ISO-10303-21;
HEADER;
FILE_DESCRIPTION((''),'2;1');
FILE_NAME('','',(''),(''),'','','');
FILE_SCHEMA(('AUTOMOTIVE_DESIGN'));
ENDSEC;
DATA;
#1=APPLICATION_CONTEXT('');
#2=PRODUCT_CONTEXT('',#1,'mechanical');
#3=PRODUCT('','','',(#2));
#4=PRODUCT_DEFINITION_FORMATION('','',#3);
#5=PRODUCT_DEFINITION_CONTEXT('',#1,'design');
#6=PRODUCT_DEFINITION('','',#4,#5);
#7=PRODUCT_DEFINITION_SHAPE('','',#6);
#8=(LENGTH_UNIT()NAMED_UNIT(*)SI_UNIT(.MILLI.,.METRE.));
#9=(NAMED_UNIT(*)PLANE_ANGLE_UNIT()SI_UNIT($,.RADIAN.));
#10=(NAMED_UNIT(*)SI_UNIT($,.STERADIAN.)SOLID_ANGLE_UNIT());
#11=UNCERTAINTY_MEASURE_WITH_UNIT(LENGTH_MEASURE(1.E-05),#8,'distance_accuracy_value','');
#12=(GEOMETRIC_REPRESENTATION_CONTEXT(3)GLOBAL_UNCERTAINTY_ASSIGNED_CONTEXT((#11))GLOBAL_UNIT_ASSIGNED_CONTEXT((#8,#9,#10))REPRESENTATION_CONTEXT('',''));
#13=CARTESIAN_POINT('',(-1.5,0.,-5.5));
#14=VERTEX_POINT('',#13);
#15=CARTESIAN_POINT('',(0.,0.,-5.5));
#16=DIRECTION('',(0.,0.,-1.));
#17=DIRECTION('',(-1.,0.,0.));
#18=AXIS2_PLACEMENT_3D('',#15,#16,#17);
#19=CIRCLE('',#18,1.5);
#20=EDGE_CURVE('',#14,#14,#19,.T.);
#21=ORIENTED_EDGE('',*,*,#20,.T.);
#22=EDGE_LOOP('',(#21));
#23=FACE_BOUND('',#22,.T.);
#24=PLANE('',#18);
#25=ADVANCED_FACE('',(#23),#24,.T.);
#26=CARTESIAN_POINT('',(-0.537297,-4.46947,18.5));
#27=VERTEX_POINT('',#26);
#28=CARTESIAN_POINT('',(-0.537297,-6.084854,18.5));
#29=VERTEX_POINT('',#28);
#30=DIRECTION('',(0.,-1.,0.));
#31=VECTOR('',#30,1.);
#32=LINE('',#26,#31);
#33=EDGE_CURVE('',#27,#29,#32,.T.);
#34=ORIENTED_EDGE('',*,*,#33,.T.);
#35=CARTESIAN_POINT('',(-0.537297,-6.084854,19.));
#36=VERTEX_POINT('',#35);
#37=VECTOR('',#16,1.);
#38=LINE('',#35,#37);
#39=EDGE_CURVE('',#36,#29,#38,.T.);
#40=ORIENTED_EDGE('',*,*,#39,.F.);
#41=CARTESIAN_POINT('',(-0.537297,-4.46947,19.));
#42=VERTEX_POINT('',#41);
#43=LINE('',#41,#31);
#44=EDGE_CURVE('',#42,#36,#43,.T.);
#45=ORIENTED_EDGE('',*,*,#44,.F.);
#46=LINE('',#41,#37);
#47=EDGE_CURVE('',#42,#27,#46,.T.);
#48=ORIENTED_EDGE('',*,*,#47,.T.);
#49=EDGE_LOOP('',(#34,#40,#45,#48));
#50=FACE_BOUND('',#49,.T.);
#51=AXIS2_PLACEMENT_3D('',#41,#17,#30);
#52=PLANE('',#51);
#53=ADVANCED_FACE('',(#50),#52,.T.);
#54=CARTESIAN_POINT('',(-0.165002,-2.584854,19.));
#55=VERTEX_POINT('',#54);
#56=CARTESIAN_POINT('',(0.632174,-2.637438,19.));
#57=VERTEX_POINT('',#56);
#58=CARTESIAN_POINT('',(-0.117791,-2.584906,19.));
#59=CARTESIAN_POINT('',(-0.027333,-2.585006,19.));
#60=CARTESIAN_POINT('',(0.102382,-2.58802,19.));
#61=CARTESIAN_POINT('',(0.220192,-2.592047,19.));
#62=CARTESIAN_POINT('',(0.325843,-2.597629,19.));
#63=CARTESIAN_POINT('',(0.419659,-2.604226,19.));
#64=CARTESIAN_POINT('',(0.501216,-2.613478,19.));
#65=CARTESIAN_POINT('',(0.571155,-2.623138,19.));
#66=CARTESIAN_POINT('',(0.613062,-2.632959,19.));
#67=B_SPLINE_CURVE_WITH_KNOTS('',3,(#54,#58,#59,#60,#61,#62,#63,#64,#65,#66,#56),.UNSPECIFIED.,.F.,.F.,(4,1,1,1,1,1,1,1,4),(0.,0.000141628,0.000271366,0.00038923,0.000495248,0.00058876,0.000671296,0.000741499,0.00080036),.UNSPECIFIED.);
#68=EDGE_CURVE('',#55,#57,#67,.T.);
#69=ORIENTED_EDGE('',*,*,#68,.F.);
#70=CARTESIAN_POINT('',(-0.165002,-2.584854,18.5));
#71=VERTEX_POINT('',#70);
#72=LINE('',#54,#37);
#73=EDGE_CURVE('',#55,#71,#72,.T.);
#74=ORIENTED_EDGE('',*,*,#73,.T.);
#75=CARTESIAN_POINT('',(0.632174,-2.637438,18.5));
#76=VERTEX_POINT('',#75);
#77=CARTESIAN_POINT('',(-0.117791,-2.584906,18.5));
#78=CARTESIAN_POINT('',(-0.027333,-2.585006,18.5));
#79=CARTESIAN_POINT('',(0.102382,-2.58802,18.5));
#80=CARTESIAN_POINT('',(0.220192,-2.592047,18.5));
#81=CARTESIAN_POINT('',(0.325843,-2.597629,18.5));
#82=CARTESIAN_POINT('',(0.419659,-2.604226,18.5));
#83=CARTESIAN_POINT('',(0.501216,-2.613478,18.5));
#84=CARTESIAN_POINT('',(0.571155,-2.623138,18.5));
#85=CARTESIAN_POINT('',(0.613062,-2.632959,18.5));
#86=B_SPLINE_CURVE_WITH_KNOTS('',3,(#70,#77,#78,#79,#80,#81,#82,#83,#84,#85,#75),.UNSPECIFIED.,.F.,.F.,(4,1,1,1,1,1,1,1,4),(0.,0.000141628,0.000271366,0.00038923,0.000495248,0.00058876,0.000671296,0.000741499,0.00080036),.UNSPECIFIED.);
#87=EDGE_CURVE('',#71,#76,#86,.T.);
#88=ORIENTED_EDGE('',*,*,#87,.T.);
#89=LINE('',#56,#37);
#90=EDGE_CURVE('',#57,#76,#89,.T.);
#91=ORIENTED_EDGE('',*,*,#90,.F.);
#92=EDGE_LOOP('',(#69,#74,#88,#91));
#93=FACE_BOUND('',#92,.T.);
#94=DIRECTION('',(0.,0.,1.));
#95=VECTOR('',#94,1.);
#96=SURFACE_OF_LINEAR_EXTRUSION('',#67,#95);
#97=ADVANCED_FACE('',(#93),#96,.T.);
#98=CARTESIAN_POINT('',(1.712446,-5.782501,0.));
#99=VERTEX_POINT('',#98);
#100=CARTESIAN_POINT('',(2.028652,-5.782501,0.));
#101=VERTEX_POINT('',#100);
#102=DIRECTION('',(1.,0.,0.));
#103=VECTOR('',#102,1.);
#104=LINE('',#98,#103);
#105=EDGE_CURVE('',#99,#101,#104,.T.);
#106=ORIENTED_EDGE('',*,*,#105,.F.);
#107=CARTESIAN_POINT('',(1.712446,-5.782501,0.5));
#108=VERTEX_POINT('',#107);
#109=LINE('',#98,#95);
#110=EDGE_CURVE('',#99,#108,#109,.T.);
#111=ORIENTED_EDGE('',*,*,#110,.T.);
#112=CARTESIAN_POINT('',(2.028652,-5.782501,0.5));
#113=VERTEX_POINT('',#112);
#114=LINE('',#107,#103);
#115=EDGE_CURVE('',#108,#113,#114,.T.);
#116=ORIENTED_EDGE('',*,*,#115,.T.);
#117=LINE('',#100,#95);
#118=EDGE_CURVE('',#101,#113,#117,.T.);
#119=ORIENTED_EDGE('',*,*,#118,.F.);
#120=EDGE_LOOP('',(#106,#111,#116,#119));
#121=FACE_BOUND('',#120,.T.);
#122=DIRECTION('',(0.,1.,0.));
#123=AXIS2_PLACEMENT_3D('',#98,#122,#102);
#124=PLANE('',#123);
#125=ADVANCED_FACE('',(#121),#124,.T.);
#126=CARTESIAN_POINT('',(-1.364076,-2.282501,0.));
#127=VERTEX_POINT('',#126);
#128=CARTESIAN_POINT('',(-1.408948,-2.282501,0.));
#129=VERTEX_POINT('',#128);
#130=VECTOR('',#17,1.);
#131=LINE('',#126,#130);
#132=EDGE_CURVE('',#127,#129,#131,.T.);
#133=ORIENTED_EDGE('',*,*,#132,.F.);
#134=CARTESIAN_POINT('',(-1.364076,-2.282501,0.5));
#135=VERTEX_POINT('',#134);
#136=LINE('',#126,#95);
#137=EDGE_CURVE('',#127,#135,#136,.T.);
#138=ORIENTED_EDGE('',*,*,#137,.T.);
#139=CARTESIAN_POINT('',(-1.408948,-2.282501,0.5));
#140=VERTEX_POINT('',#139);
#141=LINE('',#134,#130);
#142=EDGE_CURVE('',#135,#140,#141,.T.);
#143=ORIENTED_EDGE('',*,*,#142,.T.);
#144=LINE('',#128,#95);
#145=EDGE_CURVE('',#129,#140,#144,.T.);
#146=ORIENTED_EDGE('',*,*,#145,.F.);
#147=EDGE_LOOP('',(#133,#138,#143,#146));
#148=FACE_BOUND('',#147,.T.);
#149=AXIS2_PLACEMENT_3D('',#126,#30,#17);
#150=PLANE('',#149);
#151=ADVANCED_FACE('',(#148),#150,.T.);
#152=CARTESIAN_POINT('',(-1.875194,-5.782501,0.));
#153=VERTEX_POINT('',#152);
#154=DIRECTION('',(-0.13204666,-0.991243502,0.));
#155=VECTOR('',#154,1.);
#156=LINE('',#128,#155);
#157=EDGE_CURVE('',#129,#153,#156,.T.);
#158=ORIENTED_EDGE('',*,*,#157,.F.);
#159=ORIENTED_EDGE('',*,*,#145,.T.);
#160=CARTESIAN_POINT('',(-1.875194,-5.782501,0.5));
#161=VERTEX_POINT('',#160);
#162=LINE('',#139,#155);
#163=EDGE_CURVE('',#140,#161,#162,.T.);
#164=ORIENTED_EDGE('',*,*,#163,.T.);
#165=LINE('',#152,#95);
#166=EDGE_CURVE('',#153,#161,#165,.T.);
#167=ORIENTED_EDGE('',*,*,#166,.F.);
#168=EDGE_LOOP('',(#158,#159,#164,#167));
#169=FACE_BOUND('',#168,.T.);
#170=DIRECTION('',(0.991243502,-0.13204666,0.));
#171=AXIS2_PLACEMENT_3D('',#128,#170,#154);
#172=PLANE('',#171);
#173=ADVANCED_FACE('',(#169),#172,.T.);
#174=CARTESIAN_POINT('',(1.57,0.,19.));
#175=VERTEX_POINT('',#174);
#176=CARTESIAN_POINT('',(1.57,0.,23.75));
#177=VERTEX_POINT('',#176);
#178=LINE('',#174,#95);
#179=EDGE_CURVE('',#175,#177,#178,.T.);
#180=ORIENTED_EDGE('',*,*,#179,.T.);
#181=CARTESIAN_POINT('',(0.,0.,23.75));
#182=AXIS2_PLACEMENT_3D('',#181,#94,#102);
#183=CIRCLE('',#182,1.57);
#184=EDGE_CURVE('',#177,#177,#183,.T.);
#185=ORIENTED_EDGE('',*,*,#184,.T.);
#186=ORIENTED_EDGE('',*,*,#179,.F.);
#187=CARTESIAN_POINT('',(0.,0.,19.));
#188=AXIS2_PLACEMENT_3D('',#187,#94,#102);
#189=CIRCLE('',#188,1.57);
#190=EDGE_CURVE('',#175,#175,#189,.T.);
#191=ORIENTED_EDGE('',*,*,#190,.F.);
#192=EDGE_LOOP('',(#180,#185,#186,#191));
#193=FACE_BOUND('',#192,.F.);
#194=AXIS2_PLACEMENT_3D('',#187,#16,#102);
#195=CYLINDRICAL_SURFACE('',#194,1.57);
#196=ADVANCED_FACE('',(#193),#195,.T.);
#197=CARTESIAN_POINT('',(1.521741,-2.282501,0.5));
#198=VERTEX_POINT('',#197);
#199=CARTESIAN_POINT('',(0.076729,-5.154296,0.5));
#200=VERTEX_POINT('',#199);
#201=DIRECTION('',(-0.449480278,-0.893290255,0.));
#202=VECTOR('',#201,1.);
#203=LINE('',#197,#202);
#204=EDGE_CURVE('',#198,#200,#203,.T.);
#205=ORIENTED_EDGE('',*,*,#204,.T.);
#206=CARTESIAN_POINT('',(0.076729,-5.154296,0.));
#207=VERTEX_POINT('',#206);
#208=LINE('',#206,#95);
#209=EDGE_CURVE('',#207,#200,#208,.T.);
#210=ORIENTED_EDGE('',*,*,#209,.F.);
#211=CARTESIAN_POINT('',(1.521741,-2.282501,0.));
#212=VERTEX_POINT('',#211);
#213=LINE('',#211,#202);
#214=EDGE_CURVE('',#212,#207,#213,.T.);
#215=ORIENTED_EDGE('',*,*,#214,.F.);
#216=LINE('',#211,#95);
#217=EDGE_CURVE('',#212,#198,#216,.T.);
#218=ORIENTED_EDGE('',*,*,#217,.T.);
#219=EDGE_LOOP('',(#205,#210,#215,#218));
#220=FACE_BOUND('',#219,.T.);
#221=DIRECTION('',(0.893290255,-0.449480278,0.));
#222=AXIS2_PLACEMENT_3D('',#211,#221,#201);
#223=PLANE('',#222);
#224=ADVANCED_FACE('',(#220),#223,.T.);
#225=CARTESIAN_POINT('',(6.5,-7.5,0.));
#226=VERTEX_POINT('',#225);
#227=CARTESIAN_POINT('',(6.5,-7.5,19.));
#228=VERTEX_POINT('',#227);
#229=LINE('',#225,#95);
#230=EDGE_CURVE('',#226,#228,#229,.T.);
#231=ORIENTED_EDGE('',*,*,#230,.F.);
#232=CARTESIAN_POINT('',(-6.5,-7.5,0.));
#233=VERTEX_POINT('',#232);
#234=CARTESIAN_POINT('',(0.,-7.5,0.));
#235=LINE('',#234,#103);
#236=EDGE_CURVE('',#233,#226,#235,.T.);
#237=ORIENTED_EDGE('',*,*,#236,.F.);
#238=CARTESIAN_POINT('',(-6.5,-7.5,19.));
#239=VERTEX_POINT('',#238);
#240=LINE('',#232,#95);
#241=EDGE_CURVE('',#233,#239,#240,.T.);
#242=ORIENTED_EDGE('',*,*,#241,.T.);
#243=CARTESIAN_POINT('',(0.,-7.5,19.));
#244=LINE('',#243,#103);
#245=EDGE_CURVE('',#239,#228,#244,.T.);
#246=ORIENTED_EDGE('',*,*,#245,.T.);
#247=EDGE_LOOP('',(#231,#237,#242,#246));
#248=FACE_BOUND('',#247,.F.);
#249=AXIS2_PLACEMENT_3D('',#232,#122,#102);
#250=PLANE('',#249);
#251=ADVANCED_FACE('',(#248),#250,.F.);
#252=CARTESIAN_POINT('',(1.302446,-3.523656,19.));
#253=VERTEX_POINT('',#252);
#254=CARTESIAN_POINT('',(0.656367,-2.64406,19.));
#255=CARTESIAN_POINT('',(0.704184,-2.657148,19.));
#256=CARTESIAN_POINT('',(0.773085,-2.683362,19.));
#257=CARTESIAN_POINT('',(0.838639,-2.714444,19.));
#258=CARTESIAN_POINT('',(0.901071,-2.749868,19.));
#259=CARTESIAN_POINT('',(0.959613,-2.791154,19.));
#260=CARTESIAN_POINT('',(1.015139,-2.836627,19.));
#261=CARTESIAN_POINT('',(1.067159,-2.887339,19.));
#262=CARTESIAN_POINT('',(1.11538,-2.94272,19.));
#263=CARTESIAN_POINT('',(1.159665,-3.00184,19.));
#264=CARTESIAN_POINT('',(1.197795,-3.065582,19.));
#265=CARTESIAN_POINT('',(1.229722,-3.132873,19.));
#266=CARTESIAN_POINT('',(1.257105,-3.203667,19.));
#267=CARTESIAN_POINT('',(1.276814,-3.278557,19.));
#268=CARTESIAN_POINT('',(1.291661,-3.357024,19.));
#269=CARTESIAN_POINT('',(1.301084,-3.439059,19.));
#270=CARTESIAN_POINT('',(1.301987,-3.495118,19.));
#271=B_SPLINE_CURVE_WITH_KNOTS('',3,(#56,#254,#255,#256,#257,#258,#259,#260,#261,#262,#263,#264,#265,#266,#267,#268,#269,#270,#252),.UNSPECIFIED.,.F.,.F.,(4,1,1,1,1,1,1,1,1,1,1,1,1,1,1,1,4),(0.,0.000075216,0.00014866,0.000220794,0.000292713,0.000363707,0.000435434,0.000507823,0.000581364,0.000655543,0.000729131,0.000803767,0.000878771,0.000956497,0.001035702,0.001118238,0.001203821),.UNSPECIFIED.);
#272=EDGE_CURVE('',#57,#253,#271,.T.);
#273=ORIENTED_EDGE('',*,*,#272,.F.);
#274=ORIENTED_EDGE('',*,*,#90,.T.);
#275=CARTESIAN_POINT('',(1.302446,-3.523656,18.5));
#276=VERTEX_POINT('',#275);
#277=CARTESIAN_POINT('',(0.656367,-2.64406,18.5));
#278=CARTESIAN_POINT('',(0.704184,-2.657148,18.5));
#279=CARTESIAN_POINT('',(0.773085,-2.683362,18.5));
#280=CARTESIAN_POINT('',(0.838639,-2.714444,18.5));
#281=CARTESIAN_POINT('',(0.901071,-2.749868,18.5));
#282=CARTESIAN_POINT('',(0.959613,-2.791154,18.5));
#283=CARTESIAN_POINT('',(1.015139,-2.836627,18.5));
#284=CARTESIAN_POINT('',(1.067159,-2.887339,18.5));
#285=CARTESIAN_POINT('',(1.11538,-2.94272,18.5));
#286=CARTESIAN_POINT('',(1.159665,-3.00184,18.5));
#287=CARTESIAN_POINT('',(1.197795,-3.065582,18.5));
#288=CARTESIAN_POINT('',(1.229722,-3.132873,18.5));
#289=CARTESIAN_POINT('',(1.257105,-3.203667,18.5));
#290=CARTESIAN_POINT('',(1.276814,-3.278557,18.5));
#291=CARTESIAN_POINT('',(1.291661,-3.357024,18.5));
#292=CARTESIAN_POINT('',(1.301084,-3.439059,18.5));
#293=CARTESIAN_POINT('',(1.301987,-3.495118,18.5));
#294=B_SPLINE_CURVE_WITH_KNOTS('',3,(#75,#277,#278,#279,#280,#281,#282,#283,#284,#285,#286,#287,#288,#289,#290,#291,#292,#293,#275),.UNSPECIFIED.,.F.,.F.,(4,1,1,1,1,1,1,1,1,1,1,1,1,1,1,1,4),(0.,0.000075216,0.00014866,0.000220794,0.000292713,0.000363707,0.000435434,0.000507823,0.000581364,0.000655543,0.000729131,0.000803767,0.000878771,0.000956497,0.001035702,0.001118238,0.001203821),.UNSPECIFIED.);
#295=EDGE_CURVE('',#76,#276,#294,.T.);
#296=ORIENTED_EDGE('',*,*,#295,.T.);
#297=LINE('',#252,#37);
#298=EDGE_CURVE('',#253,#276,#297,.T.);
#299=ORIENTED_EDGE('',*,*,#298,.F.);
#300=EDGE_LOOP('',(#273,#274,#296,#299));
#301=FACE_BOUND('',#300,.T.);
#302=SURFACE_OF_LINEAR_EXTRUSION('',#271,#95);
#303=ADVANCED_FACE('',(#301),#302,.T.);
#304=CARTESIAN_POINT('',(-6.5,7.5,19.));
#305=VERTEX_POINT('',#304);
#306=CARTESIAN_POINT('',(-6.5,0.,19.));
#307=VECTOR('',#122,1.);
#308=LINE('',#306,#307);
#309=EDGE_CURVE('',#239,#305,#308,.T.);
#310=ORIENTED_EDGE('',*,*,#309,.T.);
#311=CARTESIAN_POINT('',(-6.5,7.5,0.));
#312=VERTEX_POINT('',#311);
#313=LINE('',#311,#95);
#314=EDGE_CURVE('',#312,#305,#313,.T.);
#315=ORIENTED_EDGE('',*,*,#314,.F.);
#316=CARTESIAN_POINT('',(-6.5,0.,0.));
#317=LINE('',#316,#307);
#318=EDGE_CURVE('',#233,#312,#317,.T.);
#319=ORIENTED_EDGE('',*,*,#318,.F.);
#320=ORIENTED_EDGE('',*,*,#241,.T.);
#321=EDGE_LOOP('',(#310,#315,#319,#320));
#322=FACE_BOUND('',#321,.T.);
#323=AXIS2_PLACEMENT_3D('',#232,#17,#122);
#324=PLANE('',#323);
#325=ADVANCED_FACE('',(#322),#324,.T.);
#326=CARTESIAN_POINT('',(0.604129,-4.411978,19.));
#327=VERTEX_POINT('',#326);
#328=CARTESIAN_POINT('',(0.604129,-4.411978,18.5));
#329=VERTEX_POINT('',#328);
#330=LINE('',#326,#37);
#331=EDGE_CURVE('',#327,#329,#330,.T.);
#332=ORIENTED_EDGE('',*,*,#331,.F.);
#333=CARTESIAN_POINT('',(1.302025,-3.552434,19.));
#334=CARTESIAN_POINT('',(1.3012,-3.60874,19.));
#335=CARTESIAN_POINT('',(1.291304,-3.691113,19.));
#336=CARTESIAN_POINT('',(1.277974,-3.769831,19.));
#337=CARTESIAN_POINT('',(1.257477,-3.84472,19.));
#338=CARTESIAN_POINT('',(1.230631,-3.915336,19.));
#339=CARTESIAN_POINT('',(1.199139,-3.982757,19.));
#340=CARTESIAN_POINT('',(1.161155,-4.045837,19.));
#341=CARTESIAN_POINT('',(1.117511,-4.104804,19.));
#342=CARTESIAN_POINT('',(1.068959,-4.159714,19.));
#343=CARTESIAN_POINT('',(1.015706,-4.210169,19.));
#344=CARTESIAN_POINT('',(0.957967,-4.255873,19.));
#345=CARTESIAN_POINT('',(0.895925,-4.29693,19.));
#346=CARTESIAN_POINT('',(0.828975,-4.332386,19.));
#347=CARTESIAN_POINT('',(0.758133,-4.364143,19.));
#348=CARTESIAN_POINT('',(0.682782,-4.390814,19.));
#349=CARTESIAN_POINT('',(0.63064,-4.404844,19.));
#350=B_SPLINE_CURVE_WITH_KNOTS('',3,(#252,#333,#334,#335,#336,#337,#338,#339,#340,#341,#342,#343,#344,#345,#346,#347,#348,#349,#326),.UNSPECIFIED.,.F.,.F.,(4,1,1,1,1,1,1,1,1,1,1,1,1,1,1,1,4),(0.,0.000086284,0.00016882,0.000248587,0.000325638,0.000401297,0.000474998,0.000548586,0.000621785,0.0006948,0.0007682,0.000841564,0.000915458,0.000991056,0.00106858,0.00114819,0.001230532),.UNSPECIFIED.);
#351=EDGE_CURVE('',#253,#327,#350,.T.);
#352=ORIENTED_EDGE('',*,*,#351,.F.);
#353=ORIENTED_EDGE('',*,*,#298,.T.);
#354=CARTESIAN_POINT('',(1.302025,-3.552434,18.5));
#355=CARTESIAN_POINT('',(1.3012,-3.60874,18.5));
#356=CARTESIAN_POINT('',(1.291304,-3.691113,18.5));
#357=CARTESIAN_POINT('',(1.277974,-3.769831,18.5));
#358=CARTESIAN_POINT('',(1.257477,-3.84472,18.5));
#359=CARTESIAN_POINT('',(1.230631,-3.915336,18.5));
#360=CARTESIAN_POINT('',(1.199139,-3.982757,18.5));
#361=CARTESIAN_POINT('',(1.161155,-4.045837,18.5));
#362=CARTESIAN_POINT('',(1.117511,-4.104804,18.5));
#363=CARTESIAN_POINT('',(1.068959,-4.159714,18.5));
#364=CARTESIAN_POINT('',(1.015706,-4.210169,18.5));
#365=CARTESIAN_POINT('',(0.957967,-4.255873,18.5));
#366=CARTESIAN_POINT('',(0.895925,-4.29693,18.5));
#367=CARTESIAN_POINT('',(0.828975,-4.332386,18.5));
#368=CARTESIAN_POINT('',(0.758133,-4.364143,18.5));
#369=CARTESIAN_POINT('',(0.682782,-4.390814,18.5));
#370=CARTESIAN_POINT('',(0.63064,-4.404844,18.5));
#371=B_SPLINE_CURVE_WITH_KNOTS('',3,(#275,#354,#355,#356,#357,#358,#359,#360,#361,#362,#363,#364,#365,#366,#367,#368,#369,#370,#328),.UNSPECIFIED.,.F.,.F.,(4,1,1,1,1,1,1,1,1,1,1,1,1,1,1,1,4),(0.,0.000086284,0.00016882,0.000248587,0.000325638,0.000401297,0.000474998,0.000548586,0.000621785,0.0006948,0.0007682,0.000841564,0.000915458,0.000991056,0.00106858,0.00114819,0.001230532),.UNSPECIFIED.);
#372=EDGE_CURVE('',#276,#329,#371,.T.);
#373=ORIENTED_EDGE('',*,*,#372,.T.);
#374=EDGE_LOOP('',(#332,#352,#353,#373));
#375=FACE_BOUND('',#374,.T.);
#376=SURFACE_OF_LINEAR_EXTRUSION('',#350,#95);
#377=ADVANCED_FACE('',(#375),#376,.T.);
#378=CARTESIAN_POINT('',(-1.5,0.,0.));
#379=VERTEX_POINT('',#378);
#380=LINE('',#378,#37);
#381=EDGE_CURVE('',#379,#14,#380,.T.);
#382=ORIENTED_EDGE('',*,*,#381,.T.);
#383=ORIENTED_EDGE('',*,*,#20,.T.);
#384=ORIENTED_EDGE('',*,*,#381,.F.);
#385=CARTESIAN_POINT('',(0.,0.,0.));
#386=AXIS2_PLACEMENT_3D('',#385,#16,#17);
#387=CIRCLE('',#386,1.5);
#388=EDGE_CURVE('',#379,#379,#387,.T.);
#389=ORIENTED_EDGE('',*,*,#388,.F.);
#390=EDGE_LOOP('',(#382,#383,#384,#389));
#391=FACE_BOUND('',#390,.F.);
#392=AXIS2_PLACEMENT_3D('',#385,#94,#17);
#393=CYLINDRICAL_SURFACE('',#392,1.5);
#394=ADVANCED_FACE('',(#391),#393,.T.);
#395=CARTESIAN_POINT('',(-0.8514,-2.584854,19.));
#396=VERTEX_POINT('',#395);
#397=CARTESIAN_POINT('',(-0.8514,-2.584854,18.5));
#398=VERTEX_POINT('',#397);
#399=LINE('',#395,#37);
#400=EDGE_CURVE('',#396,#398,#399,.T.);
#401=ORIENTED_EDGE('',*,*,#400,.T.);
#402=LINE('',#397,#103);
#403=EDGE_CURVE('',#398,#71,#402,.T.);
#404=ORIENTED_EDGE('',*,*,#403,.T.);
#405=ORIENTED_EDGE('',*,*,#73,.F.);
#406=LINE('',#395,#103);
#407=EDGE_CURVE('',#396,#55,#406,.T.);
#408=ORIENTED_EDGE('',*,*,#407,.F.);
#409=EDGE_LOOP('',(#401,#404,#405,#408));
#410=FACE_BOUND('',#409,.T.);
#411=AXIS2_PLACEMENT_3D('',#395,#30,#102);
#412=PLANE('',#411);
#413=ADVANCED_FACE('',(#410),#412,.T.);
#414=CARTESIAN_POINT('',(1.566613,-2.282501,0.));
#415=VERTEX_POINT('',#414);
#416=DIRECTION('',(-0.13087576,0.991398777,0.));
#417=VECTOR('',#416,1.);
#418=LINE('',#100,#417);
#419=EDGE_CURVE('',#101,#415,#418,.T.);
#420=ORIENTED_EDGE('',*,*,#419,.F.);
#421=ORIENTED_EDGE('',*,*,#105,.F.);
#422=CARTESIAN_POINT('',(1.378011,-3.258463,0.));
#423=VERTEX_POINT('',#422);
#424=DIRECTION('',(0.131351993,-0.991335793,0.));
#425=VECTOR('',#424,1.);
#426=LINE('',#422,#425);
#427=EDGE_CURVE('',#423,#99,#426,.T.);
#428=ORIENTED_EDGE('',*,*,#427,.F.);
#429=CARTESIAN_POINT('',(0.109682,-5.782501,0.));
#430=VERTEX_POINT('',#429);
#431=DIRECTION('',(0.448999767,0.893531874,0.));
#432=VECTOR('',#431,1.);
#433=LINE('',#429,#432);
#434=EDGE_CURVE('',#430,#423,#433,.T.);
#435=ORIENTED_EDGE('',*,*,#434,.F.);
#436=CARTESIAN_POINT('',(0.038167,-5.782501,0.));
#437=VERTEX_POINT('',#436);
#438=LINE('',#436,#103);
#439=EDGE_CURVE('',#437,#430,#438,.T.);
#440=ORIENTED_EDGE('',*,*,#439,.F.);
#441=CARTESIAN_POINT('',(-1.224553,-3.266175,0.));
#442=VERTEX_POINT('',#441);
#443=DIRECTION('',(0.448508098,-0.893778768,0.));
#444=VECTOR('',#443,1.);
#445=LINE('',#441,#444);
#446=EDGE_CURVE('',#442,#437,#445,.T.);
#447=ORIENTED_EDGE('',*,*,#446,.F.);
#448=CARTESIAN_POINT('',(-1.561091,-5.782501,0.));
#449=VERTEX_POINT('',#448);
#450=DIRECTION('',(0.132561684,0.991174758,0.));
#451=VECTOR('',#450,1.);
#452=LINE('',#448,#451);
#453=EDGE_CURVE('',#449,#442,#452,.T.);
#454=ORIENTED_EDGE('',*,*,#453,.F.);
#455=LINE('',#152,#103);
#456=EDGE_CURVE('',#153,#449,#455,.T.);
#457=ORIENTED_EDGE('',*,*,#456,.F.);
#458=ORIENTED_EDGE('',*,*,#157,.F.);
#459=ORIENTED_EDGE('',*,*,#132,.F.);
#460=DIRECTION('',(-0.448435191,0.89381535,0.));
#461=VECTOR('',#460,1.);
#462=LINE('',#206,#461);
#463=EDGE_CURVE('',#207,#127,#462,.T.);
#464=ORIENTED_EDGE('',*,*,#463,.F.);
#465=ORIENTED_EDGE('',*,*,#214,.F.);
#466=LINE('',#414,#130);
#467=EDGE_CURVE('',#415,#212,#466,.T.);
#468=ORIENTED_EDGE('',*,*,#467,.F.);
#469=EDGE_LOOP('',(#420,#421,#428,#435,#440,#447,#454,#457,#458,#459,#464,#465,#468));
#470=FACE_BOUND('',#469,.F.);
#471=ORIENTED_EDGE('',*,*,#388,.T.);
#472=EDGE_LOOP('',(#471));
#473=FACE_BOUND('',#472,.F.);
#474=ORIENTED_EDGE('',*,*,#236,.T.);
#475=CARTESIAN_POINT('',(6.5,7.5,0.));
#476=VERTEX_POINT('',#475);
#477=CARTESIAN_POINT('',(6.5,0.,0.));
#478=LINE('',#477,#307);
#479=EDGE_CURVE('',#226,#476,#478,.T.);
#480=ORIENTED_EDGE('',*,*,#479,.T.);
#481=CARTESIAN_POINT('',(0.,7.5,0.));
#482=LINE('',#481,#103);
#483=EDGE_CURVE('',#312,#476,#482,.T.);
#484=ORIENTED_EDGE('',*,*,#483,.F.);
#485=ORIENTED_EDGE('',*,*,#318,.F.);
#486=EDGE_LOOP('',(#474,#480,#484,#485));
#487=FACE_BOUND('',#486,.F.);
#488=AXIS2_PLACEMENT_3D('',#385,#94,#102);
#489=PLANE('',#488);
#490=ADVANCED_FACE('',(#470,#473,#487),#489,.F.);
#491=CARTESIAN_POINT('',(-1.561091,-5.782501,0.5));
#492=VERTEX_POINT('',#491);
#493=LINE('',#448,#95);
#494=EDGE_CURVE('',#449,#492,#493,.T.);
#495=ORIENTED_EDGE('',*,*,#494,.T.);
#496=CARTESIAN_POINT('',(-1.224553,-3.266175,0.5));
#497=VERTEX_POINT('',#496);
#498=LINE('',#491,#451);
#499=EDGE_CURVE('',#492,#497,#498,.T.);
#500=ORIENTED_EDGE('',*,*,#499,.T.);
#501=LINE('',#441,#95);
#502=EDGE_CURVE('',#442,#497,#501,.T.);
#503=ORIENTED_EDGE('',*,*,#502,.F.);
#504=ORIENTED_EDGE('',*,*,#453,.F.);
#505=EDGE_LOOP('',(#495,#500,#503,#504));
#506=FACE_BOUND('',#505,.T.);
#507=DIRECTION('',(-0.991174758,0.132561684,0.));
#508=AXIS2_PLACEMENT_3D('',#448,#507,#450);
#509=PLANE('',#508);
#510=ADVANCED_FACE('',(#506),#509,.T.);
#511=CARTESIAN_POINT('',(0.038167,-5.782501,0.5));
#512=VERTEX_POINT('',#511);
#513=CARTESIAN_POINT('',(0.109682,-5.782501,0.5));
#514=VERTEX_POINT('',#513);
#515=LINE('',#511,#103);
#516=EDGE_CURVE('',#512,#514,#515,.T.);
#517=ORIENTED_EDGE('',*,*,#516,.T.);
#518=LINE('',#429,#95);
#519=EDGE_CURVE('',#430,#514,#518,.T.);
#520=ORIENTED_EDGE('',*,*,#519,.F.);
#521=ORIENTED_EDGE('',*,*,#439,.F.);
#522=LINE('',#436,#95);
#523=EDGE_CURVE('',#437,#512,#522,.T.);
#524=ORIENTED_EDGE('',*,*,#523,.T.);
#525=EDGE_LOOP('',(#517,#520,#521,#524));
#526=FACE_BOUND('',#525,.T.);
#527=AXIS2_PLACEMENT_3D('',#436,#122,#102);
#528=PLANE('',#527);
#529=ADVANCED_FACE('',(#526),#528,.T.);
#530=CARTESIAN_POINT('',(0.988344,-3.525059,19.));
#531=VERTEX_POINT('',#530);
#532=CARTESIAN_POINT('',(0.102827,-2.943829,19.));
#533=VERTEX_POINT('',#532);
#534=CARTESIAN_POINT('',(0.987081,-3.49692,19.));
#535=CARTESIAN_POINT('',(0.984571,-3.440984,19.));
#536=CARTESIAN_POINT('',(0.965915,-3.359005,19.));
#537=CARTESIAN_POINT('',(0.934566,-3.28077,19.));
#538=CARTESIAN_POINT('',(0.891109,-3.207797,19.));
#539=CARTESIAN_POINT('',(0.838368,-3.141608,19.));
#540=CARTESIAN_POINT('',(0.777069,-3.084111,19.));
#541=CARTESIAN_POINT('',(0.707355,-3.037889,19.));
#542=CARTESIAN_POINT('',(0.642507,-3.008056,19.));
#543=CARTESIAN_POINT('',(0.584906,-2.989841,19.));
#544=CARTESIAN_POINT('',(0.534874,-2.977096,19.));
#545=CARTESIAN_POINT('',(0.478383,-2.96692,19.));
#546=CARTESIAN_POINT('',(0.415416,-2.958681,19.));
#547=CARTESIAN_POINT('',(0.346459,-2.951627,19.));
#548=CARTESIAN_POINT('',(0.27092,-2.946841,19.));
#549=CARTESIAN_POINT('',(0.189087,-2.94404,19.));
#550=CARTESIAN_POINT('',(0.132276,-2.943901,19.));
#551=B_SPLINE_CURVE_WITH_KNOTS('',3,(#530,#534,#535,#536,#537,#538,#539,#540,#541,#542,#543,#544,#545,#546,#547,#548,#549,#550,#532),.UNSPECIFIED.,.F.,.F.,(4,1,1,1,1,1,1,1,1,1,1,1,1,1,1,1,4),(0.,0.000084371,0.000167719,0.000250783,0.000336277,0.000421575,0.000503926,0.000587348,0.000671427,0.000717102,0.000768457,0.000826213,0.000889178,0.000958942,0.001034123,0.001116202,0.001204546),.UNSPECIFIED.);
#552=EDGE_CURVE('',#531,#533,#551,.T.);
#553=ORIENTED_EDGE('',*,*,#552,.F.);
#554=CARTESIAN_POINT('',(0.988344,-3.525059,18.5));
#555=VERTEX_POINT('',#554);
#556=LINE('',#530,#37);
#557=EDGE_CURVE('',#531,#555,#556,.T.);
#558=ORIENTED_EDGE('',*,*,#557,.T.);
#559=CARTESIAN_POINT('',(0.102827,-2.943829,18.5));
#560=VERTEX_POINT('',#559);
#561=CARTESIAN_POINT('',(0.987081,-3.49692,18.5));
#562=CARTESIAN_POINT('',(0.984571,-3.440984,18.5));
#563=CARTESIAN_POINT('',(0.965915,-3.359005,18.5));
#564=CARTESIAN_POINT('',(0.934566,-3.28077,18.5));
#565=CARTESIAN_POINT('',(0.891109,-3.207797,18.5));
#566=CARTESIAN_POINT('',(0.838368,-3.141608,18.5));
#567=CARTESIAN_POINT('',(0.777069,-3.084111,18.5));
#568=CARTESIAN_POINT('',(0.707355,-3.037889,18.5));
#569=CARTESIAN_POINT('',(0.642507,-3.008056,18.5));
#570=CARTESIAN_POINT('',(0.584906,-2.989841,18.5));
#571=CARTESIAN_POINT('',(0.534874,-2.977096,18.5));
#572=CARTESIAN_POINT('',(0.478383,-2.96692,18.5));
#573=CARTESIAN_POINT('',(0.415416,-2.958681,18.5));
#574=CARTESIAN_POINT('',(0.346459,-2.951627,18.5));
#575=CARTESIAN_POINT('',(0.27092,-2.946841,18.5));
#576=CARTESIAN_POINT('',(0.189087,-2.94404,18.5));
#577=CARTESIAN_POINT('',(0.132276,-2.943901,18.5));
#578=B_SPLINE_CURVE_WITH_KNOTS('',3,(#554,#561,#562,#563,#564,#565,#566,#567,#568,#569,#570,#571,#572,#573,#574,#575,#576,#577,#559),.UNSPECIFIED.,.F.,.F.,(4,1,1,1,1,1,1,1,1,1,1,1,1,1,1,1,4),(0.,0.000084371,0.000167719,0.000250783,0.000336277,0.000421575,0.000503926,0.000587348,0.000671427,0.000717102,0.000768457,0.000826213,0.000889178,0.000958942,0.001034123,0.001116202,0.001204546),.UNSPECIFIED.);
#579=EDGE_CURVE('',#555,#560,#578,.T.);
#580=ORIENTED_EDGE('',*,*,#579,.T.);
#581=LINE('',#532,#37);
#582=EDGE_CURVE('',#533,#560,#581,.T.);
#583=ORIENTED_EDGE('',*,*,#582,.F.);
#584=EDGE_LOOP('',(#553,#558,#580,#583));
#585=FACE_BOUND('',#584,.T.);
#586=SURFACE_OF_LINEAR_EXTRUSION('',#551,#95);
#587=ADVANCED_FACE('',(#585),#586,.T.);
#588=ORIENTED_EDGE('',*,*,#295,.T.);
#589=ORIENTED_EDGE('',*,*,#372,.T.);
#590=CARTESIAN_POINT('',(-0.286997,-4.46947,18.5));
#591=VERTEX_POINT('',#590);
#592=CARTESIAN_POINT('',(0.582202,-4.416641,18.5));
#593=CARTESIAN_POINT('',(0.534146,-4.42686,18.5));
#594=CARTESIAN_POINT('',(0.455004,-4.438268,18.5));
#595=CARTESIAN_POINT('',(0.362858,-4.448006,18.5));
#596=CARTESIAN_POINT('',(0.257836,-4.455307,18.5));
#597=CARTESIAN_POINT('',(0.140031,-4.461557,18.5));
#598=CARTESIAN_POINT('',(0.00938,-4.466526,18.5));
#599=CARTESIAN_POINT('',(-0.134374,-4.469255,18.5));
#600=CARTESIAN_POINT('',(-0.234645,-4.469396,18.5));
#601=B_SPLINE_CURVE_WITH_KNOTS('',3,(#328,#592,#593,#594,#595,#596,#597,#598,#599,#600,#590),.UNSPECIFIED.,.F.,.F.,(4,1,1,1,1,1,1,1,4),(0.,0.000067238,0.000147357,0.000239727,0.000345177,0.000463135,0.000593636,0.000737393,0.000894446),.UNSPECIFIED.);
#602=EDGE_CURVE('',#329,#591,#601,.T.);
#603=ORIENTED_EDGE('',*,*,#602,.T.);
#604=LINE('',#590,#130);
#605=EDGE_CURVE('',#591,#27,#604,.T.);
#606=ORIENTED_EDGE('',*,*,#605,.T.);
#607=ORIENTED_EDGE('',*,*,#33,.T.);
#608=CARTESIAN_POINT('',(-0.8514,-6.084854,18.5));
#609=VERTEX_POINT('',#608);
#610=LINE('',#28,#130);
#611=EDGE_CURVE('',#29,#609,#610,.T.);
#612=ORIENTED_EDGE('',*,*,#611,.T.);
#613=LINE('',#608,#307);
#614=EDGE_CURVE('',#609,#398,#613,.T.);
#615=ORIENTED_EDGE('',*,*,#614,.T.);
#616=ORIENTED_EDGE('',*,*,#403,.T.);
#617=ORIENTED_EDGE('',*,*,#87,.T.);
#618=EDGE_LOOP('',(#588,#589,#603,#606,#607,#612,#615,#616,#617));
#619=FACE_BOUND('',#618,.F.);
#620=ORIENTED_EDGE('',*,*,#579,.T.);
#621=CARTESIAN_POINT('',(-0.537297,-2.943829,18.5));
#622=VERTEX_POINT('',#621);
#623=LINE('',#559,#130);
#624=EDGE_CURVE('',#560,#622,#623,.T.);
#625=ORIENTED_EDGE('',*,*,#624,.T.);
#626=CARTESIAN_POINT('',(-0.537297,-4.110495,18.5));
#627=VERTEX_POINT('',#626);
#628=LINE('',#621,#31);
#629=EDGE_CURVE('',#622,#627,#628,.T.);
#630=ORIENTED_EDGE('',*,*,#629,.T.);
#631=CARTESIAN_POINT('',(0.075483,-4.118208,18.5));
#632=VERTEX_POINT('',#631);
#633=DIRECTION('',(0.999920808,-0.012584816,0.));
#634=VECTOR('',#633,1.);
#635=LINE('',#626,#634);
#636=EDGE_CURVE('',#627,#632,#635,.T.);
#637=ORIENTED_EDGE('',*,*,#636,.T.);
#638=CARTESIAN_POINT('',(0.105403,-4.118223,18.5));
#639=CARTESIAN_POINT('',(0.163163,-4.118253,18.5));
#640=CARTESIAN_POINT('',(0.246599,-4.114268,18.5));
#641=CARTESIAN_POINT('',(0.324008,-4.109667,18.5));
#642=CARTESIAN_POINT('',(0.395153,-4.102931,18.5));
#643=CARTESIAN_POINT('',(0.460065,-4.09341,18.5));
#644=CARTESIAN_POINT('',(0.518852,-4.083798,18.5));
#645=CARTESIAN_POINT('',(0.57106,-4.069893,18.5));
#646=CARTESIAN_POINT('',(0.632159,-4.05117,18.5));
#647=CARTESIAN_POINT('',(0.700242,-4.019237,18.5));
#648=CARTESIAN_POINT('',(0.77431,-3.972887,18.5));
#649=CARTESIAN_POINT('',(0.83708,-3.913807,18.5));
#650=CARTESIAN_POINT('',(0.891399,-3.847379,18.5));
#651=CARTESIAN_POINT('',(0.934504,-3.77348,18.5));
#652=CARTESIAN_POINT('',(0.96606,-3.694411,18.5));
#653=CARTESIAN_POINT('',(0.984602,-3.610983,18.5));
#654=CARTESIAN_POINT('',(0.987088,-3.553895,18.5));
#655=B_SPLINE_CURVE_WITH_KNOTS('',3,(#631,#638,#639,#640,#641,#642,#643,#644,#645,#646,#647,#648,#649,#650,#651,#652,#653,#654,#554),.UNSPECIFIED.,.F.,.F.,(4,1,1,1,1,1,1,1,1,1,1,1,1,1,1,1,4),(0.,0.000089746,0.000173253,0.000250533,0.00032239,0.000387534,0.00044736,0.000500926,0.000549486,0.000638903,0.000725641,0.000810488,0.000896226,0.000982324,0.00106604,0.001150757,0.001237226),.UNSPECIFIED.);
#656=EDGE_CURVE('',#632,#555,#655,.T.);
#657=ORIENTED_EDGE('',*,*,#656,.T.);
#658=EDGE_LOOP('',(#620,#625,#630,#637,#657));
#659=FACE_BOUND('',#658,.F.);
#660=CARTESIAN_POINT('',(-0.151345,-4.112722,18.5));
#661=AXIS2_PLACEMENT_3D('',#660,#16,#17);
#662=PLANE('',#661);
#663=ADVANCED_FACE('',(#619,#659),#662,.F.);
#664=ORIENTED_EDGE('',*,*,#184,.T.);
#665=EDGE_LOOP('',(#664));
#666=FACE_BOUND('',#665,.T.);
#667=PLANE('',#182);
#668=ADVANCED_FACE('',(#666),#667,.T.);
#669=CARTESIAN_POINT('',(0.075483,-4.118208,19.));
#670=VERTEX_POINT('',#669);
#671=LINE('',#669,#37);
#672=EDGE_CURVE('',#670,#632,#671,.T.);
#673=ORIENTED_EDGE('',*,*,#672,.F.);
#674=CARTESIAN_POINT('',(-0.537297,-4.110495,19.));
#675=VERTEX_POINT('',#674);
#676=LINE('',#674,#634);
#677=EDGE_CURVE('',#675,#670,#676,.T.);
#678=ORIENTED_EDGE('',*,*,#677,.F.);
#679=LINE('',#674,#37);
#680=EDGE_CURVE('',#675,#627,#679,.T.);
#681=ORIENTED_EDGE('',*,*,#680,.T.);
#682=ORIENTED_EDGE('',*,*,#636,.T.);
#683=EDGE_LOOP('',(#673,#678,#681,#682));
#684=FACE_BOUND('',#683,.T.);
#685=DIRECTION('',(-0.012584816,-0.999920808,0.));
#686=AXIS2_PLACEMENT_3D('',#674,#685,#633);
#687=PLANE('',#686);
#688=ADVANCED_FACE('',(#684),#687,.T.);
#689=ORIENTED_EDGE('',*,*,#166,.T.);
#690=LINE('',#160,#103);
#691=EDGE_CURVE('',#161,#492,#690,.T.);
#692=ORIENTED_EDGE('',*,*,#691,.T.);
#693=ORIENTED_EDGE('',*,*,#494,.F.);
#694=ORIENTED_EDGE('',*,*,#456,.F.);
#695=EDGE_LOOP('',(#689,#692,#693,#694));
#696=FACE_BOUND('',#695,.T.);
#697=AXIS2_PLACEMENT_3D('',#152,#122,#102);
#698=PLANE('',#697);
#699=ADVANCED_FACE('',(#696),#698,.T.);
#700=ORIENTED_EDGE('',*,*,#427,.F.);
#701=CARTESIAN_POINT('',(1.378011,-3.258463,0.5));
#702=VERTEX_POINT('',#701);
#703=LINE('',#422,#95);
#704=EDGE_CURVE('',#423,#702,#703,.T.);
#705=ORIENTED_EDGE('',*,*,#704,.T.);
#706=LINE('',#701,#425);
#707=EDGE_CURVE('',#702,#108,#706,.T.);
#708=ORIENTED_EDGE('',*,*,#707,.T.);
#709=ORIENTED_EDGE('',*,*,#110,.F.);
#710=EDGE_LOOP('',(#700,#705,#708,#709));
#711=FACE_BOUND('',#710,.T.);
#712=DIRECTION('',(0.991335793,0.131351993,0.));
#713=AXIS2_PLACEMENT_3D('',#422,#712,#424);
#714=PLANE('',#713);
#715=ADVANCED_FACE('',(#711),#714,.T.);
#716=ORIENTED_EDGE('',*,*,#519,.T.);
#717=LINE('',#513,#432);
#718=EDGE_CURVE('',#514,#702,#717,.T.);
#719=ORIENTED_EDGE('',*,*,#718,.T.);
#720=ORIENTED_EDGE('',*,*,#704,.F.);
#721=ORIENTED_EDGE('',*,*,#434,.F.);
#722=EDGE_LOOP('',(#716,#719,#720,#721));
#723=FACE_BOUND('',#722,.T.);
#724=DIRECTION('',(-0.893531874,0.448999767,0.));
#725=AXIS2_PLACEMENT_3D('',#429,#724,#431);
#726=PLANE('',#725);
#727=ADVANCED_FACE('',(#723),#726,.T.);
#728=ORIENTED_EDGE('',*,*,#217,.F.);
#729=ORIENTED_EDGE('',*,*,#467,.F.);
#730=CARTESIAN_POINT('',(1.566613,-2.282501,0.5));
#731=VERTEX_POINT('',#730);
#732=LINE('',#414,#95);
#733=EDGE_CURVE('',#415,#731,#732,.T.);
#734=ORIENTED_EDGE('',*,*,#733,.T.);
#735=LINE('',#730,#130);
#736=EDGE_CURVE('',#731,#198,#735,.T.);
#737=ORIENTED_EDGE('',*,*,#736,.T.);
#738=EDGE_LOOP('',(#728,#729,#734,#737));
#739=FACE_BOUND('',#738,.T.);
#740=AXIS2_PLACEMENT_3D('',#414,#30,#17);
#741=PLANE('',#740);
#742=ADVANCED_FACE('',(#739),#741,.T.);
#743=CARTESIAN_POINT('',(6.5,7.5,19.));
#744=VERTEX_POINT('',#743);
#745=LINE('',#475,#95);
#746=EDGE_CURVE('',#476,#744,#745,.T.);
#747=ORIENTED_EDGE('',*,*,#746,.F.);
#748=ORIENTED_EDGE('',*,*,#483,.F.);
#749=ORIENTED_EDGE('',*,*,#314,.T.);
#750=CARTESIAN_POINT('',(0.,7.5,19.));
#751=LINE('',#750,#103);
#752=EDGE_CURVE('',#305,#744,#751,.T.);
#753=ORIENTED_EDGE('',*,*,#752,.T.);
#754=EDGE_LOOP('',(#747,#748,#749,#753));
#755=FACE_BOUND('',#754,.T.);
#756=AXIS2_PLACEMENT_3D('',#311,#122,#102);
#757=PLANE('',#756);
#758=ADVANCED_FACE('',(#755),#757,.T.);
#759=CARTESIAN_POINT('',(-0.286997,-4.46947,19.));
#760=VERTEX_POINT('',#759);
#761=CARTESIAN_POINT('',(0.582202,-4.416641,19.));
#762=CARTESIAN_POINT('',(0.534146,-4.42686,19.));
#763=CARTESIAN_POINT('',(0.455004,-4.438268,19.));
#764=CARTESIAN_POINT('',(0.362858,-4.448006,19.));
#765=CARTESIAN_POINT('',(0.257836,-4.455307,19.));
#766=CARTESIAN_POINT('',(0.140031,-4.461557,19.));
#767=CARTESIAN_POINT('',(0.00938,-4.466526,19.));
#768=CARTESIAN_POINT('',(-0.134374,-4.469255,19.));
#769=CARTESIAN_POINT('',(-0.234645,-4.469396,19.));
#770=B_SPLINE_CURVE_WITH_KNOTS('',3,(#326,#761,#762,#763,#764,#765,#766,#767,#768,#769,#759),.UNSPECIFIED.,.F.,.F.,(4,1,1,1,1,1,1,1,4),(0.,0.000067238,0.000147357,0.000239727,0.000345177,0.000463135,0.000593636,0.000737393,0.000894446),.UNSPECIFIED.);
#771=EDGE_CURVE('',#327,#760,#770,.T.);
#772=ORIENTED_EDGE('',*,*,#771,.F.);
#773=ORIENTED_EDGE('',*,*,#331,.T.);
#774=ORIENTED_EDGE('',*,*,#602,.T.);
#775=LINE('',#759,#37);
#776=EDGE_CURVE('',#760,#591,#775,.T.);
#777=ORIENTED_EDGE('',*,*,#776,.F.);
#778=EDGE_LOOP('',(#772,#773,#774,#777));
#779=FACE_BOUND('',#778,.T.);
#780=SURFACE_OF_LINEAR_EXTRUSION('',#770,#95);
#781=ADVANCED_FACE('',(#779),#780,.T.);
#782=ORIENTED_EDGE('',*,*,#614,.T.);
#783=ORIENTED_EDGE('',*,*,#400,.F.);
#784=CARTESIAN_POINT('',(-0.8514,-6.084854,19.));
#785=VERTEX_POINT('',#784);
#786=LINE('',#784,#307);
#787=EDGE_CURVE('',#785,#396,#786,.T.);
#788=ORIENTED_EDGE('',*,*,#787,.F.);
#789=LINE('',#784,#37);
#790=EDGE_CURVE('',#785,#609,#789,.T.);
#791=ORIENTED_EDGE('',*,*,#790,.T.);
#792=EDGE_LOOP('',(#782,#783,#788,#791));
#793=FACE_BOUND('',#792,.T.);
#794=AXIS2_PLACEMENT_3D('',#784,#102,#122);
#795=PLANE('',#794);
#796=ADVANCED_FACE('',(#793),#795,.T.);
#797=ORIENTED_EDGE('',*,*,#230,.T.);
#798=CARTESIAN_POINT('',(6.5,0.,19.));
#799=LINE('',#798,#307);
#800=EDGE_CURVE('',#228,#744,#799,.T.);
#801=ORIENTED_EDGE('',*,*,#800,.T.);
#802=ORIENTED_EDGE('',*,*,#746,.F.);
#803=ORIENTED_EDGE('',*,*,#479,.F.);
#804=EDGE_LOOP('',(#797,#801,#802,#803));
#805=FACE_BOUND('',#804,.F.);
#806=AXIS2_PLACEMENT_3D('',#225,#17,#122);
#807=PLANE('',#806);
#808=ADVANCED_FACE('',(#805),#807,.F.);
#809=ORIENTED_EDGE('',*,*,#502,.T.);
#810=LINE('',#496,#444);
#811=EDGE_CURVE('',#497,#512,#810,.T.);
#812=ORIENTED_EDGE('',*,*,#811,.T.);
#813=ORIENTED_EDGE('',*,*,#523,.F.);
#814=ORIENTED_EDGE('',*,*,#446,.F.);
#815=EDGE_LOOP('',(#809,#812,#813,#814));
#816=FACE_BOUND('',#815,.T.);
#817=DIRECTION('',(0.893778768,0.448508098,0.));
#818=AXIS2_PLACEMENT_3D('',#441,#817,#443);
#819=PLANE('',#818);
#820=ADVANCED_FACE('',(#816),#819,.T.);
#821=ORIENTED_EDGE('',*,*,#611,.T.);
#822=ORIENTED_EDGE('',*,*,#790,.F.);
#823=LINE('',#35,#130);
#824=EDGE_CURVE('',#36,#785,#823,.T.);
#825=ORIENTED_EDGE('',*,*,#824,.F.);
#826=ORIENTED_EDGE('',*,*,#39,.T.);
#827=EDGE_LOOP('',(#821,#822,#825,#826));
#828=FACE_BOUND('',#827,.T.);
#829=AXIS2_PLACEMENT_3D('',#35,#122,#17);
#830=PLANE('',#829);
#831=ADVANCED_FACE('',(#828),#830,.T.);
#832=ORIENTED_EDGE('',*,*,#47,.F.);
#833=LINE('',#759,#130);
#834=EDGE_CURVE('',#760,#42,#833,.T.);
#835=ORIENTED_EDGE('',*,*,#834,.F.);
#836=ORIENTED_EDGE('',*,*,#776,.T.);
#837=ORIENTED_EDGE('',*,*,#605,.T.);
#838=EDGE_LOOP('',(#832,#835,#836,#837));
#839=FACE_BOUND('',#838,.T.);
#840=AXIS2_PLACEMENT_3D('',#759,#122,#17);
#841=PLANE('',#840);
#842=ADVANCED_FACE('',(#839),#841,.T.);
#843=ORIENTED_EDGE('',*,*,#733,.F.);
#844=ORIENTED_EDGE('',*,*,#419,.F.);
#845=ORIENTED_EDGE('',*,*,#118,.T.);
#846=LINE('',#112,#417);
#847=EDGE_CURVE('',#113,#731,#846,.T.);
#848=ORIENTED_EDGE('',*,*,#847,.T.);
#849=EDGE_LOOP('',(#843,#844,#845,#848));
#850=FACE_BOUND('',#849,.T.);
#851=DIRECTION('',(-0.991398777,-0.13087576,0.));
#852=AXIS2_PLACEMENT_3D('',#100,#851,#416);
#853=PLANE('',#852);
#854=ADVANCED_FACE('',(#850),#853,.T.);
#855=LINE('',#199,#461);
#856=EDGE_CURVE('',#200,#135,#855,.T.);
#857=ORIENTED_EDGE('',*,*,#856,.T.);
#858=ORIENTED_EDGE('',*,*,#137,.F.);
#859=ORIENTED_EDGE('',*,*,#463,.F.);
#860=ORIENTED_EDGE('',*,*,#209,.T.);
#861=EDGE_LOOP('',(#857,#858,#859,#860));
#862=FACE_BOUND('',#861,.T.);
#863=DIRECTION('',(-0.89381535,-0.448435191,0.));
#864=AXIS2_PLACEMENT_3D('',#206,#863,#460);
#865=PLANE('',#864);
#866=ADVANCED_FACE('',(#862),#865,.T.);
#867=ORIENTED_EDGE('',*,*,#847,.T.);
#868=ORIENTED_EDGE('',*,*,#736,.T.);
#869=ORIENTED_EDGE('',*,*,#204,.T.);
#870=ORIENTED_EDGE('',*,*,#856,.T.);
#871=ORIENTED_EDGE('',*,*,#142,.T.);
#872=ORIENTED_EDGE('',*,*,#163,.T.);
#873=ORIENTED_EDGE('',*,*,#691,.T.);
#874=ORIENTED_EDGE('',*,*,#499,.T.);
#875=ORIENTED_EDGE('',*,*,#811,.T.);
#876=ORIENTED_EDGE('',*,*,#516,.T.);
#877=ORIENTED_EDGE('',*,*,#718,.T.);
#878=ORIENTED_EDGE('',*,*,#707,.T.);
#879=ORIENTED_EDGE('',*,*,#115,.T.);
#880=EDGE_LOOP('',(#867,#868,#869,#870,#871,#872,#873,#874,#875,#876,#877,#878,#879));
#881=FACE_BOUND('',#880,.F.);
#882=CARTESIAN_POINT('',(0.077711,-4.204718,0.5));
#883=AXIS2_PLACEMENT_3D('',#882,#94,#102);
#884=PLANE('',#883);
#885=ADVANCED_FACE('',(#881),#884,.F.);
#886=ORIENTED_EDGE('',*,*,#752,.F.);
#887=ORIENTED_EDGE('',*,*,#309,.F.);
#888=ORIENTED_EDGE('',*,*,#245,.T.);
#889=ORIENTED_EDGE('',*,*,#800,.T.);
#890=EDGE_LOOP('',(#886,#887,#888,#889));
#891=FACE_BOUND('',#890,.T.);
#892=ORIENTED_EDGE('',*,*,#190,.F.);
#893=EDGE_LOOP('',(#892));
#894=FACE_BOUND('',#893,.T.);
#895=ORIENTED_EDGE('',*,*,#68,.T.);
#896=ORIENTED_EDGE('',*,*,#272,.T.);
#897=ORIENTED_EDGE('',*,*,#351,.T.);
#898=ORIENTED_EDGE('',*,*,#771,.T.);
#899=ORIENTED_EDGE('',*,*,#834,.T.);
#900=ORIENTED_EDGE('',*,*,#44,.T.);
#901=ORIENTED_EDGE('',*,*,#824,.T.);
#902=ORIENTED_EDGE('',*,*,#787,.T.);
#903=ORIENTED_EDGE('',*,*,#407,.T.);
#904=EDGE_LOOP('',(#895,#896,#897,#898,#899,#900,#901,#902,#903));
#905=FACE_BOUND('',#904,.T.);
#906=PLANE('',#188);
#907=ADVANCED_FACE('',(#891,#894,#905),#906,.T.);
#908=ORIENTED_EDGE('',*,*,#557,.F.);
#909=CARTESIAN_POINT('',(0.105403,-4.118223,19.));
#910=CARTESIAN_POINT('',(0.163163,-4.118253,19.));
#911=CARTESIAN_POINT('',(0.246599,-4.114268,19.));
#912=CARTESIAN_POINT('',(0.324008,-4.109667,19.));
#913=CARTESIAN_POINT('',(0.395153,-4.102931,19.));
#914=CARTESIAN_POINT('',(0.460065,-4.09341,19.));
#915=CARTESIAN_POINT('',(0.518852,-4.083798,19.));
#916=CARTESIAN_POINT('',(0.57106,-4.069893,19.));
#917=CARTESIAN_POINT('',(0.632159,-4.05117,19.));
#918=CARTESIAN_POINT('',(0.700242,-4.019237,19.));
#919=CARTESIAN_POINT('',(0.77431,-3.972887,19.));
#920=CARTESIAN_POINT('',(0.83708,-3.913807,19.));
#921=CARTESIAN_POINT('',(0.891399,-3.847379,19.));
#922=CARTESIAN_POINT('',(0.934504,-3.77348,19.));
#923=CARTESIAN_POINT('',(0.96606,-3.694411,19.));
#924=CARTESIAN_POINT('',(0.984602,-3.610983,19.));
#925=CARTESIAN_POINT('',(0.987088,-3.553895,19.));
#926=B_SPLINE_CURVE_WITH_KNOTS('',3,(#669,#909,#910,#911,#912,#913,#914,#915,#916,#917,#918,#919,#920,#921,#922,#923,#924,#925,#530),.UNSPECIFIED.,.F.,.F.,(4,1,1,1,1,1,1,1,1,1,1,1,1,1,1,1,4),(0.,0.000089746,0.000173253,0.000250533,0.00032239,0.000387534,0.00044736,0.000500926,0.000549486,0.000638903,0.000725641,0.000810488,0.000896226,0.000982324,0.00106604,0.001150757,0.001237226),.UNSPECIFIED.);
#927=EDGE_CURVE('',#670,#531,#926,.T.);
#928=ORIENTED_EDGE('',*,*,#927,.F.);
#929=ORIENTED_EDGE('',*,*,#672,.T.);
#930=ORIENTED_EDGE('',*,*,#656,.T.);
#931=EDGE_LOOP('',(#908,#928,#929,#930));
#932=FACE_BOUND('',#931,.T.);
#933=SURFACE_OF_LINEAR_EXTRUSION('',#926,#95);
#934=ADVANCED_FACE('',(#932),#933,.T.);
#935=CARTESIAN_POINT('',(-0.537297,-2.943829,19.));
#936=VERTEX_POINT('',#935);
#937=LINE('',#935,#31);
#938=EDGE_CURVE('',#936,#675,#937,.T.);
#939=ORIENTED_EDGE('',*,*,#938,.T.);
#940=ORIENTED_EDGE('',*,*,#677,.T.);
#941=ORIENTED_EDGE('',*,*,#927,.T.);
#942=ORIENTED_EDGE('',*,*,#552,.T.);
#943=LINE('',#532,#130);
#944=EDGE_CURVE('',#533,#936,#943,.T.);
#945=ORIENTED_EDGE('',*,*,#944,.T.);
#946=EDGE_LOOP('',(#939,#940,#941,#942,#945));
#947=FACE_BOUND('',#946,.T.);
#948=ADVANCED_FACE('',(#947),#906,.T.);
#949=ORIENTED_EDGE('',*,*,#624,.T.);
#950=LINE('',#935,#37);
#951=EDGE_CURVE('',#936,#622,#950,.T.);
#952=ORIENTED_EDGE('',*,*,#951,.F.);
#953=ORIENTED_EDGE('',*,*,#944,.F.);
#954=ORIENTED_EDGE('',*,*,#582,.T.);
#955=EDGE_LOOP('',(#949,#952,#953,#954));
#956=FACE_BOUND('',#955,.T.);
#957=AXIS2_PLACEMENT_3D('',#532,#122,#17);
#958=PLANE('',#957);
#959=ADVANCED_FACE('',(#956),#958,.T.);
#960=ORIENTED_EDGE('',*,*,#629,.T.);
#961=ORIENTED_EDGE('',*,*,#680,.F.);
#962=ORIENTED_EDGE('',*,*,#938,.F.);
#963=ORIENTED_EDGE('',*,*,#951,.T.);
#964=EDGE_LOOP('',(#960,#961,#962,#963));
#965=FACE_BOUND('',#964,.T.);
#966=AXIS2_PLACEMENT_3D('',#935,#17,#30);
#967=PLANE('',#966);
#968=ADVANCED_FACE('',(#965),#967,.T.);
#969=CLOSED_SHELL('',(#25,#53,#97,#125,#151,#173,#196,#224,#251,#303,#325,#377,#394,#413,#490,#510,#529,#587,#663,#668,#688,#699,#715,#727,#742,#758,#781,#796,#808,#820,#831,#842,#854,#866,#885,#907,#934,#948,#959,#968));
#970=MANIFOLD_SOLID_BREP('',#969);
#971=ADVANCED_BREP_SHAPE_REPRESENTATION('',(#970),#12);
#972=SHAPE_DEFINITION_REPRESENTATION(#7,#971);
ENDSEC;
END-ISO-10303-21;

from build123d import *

# Parameters (mm, degrees)
SKETCH1_W           = 13
SKETCH1_H           = 15
BOSS_EXTRUDE1_DEPTH = 19
SKETCH2_R           = 1.57
BOSS_EXTRUDE2_DEPTH = 4.75
SKETCH3_R           = 1.5
BOSS_EXTRUDE3_DEPTH = 5.5
CUT_EXTRUDE1_DEPTH  = 0.5
CUT_EXTRUDE2_DEPTH  = 0.5


with BuildPart() as part:
    # Sketch1 → Boss-Extrude1 (new body)
    with BuildSketch(Plane.XY):
        Rectangle(SKETCH1_W, SKETCH1_H)
    extrude(amount=BOSS_EXTRUDE1_DEPTH)

    # Sketch2 → Boss-Extrude2 (add)
    with BuildSketch(Plane.XY.offset(19)):
        Circle(SKETCH2_R)
    extrude(amount=BOSS_EXTRUDE2_DEPTH)

    # Sketch3 → Boss-Extrude3 (add)
    with BuildSketch(Plane(origin=(0, 0, 0), x_dir=(-1, 0, 0), z_dir=(0, 0, -1))):
        Circle(SKETCH3_R)
    extrude(amount=BOSS_EXTRUDE3_DEPTH)

    # Sketch4 → Cut-Extrude1 (cut)
    with BuildSketch(Plane(origin=(0, 0, 0), x_dir=(-1, 0, 0), z_dir=(0, 0, -1))):
        Polygon((-2.028652102, -5.782501305), (-1.56661284, -2.282501305), (-1.521741045, -2.282501305), (-0.076729025, -5.154296177), (1.364076263, -2.282501305), (1.408948058, -2.282501305), (1.875194051, -5.782501305), (1.561091487, -5.782501305), (1.224553026, -3.266175183), (-0.038167327, -5.782501305), (-0.10968175, -5.782501305), (-1.378011077, -3.258462844), (-1.712446173, -5.782501305), align=None)
    extrude(amount=-CUT_EXTRUDE1_DEPTH, mode=Mode.SUBTRACT)

    # Sketch5 → Cut-Extrude2 (cut)
    with BuildSketch(Plane.XY.offset(19)):
        with BuildLine():
            Line((-0.851399992, -2.584854315), (-0.165001755, -2.584854315))
            add(Edge.make_bspline(
                [(-0.165001755, -2.584854315), (-0.117790848, -2.584906211), (-0.027332656, -2.585005646), (0.1023824, -2.588020392), (0.220192132, -2.592047084), (0.325842513, -2.597628978), (0.419658611, -2.604225568), (0.50121591, -2.613477607), (0.571155467, -2.623137903), (0.613061916, -2.632959309), (0.632173726, -2.637438449)],
                knots=[0, 0, 0, 0, 0.000141628, 0.000271366, 0.00038923, 0.000495248, 0.00058876, 0.000671296, 0.000741499, 0.00080036, 0.00080036, 0.00080036, 0.00080036], degree=3))
            add(Edge.make_bspline(
                [(0.632173726, -2.637438449), (0.65636726, -2.644060399), (0.704184237, -2.657148261), (0.77308528, -2.683361984), (0.838639126, -2.71444415), (0.901070684, -2.749868089), (0.959612767, -2.791153654), (1.015138808, -2.836627271), (1.067158788, -2.88733884), (1.11538018, -2.94271958), (1.159664978, -3.00183979), (1.197794661, -3.06558202), (1.229721888, -3.132873323), (1.257105159, -3.203666894), (1.276813614, -3.278557218), (1.291660513, -3.35702393), (1.301084141, -3.43905862), (1.301986703, -3.495118488), (1.302446162, -3.523656398)],
                knots=[0, 0, 0, 0, 7.5216e-05, 0.00014866, 0.000220794, 0.000292713, 0.000363707, 0.000435434, 0.000507823, 0.000581364, 0.000655543, 0.000729131, 0.000803767, 0.000878771, 0.000956497, 0.001035702, 0.001118238, 0.001203821, 0.001203821, 0.001203821, 0.001203821], degree=3))
            add(Edge.make_bspline(
                [(1.302446162, -3.523656398), (1.302024737, -3.552434175), (1.301200191, -3.608739839), (1.291303906, -3.691112627), (1.277973714, -3.769831017), (1.257476662, -3.844720468), (1.230630989, -3.915336238), (1.199138936, -3.98275747), (1.161155406, -4.045837142), (1.117510576, -4.10480426), (1.068958982, -4.159714172), (1.015706044, -4.210168966), (0.957966751, -4.255873305), (0.895924603, -4.296929648), (0.828974754, -4.332385928), (0.758132601, -4.364143233), (0.682782384, -4.390814293), (0.63063987, -4.404844355), (0.604128854, -4.411977712)],
                knots=[0, 0, 0, 0, 8.6284e-05, 0.00016882, 0.000248587, 0.000325638, 0.000401297, 0.000474998, 0.000548586, 0.000621785, 0.0006948, 0.0007682, 0.000841564, 0.000915458, 0.000991056, 0.00106858, 0.00114819, 0.001230532, 0.001230532, 0.001230532, 0.001230532], degree=3))
            add(Edge.make_bspline(
                [(0.604128854, -4.411977712), (0.58220152, -4.416640693), (0.534146493, -4.426859887), (0.455003771, -4.438268344), (0.362858385, -4.448005945), (0.257836105, -4.455307082), (0.1400312, -4.461557451), (0.009379943, -4.466525545), (-0.134374134, -4.469255399), (-0.234645379, -4.469396191), (-0.286996947, -4.469469699)],
                knots=[0, 0, 0, 0, 6.7238e-05, 0.000147357, 0.000239727, 0.000345177, 0.000463135, 0.000593636, 0.000737393, 0.000894446, 0.000894446, 0.000894446, 0.000894446], degree=3))
            Line((-0.286996947, -4.469469699), (-0.537297428, -4.469469699))
            Line((-0.537297428, -4.469469699), (-0.537297428, -6.084854315))
            Line((-0.537297428, -6.084854315), (-0.851399992, -6.084854315))
            Line((-0.851399992, -6.084854315), (-0.851399992, -2.584854315))
        make_face()
        with BuildLine():
            Line((-0.537297428, -2.943828674), (-0.537297428, -4.11049534))
            Line((-0.537297428, -4.11049534), (0.075483021, -4.11820768))
            add(Edge.make_bspline(
                [(0.075483021, -4.11820768), (0.105402947, -4.118223144), (0.163162747, -4.118252996), (0.24659897, -4.114267772), (0.324008257, -4.10966724), (0.395152833, -4.102931316), (0.460064767, -4.093410059), (0.518852296, -4.083798321), (0.571059579, -4.069892958), (0.632158781, -4.051169889), (0.700242128, -4.019237273), (0.774309677, -3.972887383), (0.837080263, -3.913806675), (0.89139856, -3.847378844), (0.934504438, -3.773479714), (0.96606043, -3.694410778), (0.984601587, -3.610982928), (0.987087781, -3.553894789), (0.988343598, -3.525058642)],
                knots=[0, 0, 0, 0, 8.9746e-05, 0.000173253, 0.000250533, 0.00032239, 0.000387534, 0.00044736, 0.000500926, 0.000549486, 0.000638903, 0.000725641, 0.000810488, 0.000896226, 0.000982324, 0.00106604, 0.001150757, 0.001237226, 0.001237226, 0.001237226, 0.001237226], degree=3))
            add(Edge.make_bspline(
                [(0.988343598, -3.525058642), (0.987080951, -3.496920128), (0.984570966, -3.440984246), (0.965915103, -3.359005485), (0.934565789, -3.280769781), (0.891109195, -3.207796696), (0.838368065, -3.141607892), (0.777068722, -3.084110765), (0.707355461, -3.037889062), (0.642507229, -3.00805578), (0.584906043, -2.989840505), (0.534874084, -2.977095664), (0.478383409, -2.966920058), (0.41541563, -2.958680555), (0.346458796, -2.951627094), (0.270920481, -2.946841117), (0.189086838, -2.944039661), (0.132276267, -2.943900705), (0.102826771, -2.943828674)],
                knots=[0, 0, 0, 0, 8.4371e-05, 0.000167719, 0.000250783, 0.000336277, 0.000421575, 0.000503926, 0.000587348, 0.000671427, 0.000717102, 0.000768457, 0.000826213, 0.000889178, 0.000958942, 0.001034123, 0.001116202, 0.001204546, 0.001204546, 0.001204546, 0.001204546], degree=3))
            Line((0.102826771, -2.943828674), (-0.537297428, -2.943828674))
        make_face(mode=Mode.SUBTRACT)
    extrude(amount=-CUT_EXTRUDE2_DEPTH, mode=Mode.SUBTRACT)


solid = part.part
